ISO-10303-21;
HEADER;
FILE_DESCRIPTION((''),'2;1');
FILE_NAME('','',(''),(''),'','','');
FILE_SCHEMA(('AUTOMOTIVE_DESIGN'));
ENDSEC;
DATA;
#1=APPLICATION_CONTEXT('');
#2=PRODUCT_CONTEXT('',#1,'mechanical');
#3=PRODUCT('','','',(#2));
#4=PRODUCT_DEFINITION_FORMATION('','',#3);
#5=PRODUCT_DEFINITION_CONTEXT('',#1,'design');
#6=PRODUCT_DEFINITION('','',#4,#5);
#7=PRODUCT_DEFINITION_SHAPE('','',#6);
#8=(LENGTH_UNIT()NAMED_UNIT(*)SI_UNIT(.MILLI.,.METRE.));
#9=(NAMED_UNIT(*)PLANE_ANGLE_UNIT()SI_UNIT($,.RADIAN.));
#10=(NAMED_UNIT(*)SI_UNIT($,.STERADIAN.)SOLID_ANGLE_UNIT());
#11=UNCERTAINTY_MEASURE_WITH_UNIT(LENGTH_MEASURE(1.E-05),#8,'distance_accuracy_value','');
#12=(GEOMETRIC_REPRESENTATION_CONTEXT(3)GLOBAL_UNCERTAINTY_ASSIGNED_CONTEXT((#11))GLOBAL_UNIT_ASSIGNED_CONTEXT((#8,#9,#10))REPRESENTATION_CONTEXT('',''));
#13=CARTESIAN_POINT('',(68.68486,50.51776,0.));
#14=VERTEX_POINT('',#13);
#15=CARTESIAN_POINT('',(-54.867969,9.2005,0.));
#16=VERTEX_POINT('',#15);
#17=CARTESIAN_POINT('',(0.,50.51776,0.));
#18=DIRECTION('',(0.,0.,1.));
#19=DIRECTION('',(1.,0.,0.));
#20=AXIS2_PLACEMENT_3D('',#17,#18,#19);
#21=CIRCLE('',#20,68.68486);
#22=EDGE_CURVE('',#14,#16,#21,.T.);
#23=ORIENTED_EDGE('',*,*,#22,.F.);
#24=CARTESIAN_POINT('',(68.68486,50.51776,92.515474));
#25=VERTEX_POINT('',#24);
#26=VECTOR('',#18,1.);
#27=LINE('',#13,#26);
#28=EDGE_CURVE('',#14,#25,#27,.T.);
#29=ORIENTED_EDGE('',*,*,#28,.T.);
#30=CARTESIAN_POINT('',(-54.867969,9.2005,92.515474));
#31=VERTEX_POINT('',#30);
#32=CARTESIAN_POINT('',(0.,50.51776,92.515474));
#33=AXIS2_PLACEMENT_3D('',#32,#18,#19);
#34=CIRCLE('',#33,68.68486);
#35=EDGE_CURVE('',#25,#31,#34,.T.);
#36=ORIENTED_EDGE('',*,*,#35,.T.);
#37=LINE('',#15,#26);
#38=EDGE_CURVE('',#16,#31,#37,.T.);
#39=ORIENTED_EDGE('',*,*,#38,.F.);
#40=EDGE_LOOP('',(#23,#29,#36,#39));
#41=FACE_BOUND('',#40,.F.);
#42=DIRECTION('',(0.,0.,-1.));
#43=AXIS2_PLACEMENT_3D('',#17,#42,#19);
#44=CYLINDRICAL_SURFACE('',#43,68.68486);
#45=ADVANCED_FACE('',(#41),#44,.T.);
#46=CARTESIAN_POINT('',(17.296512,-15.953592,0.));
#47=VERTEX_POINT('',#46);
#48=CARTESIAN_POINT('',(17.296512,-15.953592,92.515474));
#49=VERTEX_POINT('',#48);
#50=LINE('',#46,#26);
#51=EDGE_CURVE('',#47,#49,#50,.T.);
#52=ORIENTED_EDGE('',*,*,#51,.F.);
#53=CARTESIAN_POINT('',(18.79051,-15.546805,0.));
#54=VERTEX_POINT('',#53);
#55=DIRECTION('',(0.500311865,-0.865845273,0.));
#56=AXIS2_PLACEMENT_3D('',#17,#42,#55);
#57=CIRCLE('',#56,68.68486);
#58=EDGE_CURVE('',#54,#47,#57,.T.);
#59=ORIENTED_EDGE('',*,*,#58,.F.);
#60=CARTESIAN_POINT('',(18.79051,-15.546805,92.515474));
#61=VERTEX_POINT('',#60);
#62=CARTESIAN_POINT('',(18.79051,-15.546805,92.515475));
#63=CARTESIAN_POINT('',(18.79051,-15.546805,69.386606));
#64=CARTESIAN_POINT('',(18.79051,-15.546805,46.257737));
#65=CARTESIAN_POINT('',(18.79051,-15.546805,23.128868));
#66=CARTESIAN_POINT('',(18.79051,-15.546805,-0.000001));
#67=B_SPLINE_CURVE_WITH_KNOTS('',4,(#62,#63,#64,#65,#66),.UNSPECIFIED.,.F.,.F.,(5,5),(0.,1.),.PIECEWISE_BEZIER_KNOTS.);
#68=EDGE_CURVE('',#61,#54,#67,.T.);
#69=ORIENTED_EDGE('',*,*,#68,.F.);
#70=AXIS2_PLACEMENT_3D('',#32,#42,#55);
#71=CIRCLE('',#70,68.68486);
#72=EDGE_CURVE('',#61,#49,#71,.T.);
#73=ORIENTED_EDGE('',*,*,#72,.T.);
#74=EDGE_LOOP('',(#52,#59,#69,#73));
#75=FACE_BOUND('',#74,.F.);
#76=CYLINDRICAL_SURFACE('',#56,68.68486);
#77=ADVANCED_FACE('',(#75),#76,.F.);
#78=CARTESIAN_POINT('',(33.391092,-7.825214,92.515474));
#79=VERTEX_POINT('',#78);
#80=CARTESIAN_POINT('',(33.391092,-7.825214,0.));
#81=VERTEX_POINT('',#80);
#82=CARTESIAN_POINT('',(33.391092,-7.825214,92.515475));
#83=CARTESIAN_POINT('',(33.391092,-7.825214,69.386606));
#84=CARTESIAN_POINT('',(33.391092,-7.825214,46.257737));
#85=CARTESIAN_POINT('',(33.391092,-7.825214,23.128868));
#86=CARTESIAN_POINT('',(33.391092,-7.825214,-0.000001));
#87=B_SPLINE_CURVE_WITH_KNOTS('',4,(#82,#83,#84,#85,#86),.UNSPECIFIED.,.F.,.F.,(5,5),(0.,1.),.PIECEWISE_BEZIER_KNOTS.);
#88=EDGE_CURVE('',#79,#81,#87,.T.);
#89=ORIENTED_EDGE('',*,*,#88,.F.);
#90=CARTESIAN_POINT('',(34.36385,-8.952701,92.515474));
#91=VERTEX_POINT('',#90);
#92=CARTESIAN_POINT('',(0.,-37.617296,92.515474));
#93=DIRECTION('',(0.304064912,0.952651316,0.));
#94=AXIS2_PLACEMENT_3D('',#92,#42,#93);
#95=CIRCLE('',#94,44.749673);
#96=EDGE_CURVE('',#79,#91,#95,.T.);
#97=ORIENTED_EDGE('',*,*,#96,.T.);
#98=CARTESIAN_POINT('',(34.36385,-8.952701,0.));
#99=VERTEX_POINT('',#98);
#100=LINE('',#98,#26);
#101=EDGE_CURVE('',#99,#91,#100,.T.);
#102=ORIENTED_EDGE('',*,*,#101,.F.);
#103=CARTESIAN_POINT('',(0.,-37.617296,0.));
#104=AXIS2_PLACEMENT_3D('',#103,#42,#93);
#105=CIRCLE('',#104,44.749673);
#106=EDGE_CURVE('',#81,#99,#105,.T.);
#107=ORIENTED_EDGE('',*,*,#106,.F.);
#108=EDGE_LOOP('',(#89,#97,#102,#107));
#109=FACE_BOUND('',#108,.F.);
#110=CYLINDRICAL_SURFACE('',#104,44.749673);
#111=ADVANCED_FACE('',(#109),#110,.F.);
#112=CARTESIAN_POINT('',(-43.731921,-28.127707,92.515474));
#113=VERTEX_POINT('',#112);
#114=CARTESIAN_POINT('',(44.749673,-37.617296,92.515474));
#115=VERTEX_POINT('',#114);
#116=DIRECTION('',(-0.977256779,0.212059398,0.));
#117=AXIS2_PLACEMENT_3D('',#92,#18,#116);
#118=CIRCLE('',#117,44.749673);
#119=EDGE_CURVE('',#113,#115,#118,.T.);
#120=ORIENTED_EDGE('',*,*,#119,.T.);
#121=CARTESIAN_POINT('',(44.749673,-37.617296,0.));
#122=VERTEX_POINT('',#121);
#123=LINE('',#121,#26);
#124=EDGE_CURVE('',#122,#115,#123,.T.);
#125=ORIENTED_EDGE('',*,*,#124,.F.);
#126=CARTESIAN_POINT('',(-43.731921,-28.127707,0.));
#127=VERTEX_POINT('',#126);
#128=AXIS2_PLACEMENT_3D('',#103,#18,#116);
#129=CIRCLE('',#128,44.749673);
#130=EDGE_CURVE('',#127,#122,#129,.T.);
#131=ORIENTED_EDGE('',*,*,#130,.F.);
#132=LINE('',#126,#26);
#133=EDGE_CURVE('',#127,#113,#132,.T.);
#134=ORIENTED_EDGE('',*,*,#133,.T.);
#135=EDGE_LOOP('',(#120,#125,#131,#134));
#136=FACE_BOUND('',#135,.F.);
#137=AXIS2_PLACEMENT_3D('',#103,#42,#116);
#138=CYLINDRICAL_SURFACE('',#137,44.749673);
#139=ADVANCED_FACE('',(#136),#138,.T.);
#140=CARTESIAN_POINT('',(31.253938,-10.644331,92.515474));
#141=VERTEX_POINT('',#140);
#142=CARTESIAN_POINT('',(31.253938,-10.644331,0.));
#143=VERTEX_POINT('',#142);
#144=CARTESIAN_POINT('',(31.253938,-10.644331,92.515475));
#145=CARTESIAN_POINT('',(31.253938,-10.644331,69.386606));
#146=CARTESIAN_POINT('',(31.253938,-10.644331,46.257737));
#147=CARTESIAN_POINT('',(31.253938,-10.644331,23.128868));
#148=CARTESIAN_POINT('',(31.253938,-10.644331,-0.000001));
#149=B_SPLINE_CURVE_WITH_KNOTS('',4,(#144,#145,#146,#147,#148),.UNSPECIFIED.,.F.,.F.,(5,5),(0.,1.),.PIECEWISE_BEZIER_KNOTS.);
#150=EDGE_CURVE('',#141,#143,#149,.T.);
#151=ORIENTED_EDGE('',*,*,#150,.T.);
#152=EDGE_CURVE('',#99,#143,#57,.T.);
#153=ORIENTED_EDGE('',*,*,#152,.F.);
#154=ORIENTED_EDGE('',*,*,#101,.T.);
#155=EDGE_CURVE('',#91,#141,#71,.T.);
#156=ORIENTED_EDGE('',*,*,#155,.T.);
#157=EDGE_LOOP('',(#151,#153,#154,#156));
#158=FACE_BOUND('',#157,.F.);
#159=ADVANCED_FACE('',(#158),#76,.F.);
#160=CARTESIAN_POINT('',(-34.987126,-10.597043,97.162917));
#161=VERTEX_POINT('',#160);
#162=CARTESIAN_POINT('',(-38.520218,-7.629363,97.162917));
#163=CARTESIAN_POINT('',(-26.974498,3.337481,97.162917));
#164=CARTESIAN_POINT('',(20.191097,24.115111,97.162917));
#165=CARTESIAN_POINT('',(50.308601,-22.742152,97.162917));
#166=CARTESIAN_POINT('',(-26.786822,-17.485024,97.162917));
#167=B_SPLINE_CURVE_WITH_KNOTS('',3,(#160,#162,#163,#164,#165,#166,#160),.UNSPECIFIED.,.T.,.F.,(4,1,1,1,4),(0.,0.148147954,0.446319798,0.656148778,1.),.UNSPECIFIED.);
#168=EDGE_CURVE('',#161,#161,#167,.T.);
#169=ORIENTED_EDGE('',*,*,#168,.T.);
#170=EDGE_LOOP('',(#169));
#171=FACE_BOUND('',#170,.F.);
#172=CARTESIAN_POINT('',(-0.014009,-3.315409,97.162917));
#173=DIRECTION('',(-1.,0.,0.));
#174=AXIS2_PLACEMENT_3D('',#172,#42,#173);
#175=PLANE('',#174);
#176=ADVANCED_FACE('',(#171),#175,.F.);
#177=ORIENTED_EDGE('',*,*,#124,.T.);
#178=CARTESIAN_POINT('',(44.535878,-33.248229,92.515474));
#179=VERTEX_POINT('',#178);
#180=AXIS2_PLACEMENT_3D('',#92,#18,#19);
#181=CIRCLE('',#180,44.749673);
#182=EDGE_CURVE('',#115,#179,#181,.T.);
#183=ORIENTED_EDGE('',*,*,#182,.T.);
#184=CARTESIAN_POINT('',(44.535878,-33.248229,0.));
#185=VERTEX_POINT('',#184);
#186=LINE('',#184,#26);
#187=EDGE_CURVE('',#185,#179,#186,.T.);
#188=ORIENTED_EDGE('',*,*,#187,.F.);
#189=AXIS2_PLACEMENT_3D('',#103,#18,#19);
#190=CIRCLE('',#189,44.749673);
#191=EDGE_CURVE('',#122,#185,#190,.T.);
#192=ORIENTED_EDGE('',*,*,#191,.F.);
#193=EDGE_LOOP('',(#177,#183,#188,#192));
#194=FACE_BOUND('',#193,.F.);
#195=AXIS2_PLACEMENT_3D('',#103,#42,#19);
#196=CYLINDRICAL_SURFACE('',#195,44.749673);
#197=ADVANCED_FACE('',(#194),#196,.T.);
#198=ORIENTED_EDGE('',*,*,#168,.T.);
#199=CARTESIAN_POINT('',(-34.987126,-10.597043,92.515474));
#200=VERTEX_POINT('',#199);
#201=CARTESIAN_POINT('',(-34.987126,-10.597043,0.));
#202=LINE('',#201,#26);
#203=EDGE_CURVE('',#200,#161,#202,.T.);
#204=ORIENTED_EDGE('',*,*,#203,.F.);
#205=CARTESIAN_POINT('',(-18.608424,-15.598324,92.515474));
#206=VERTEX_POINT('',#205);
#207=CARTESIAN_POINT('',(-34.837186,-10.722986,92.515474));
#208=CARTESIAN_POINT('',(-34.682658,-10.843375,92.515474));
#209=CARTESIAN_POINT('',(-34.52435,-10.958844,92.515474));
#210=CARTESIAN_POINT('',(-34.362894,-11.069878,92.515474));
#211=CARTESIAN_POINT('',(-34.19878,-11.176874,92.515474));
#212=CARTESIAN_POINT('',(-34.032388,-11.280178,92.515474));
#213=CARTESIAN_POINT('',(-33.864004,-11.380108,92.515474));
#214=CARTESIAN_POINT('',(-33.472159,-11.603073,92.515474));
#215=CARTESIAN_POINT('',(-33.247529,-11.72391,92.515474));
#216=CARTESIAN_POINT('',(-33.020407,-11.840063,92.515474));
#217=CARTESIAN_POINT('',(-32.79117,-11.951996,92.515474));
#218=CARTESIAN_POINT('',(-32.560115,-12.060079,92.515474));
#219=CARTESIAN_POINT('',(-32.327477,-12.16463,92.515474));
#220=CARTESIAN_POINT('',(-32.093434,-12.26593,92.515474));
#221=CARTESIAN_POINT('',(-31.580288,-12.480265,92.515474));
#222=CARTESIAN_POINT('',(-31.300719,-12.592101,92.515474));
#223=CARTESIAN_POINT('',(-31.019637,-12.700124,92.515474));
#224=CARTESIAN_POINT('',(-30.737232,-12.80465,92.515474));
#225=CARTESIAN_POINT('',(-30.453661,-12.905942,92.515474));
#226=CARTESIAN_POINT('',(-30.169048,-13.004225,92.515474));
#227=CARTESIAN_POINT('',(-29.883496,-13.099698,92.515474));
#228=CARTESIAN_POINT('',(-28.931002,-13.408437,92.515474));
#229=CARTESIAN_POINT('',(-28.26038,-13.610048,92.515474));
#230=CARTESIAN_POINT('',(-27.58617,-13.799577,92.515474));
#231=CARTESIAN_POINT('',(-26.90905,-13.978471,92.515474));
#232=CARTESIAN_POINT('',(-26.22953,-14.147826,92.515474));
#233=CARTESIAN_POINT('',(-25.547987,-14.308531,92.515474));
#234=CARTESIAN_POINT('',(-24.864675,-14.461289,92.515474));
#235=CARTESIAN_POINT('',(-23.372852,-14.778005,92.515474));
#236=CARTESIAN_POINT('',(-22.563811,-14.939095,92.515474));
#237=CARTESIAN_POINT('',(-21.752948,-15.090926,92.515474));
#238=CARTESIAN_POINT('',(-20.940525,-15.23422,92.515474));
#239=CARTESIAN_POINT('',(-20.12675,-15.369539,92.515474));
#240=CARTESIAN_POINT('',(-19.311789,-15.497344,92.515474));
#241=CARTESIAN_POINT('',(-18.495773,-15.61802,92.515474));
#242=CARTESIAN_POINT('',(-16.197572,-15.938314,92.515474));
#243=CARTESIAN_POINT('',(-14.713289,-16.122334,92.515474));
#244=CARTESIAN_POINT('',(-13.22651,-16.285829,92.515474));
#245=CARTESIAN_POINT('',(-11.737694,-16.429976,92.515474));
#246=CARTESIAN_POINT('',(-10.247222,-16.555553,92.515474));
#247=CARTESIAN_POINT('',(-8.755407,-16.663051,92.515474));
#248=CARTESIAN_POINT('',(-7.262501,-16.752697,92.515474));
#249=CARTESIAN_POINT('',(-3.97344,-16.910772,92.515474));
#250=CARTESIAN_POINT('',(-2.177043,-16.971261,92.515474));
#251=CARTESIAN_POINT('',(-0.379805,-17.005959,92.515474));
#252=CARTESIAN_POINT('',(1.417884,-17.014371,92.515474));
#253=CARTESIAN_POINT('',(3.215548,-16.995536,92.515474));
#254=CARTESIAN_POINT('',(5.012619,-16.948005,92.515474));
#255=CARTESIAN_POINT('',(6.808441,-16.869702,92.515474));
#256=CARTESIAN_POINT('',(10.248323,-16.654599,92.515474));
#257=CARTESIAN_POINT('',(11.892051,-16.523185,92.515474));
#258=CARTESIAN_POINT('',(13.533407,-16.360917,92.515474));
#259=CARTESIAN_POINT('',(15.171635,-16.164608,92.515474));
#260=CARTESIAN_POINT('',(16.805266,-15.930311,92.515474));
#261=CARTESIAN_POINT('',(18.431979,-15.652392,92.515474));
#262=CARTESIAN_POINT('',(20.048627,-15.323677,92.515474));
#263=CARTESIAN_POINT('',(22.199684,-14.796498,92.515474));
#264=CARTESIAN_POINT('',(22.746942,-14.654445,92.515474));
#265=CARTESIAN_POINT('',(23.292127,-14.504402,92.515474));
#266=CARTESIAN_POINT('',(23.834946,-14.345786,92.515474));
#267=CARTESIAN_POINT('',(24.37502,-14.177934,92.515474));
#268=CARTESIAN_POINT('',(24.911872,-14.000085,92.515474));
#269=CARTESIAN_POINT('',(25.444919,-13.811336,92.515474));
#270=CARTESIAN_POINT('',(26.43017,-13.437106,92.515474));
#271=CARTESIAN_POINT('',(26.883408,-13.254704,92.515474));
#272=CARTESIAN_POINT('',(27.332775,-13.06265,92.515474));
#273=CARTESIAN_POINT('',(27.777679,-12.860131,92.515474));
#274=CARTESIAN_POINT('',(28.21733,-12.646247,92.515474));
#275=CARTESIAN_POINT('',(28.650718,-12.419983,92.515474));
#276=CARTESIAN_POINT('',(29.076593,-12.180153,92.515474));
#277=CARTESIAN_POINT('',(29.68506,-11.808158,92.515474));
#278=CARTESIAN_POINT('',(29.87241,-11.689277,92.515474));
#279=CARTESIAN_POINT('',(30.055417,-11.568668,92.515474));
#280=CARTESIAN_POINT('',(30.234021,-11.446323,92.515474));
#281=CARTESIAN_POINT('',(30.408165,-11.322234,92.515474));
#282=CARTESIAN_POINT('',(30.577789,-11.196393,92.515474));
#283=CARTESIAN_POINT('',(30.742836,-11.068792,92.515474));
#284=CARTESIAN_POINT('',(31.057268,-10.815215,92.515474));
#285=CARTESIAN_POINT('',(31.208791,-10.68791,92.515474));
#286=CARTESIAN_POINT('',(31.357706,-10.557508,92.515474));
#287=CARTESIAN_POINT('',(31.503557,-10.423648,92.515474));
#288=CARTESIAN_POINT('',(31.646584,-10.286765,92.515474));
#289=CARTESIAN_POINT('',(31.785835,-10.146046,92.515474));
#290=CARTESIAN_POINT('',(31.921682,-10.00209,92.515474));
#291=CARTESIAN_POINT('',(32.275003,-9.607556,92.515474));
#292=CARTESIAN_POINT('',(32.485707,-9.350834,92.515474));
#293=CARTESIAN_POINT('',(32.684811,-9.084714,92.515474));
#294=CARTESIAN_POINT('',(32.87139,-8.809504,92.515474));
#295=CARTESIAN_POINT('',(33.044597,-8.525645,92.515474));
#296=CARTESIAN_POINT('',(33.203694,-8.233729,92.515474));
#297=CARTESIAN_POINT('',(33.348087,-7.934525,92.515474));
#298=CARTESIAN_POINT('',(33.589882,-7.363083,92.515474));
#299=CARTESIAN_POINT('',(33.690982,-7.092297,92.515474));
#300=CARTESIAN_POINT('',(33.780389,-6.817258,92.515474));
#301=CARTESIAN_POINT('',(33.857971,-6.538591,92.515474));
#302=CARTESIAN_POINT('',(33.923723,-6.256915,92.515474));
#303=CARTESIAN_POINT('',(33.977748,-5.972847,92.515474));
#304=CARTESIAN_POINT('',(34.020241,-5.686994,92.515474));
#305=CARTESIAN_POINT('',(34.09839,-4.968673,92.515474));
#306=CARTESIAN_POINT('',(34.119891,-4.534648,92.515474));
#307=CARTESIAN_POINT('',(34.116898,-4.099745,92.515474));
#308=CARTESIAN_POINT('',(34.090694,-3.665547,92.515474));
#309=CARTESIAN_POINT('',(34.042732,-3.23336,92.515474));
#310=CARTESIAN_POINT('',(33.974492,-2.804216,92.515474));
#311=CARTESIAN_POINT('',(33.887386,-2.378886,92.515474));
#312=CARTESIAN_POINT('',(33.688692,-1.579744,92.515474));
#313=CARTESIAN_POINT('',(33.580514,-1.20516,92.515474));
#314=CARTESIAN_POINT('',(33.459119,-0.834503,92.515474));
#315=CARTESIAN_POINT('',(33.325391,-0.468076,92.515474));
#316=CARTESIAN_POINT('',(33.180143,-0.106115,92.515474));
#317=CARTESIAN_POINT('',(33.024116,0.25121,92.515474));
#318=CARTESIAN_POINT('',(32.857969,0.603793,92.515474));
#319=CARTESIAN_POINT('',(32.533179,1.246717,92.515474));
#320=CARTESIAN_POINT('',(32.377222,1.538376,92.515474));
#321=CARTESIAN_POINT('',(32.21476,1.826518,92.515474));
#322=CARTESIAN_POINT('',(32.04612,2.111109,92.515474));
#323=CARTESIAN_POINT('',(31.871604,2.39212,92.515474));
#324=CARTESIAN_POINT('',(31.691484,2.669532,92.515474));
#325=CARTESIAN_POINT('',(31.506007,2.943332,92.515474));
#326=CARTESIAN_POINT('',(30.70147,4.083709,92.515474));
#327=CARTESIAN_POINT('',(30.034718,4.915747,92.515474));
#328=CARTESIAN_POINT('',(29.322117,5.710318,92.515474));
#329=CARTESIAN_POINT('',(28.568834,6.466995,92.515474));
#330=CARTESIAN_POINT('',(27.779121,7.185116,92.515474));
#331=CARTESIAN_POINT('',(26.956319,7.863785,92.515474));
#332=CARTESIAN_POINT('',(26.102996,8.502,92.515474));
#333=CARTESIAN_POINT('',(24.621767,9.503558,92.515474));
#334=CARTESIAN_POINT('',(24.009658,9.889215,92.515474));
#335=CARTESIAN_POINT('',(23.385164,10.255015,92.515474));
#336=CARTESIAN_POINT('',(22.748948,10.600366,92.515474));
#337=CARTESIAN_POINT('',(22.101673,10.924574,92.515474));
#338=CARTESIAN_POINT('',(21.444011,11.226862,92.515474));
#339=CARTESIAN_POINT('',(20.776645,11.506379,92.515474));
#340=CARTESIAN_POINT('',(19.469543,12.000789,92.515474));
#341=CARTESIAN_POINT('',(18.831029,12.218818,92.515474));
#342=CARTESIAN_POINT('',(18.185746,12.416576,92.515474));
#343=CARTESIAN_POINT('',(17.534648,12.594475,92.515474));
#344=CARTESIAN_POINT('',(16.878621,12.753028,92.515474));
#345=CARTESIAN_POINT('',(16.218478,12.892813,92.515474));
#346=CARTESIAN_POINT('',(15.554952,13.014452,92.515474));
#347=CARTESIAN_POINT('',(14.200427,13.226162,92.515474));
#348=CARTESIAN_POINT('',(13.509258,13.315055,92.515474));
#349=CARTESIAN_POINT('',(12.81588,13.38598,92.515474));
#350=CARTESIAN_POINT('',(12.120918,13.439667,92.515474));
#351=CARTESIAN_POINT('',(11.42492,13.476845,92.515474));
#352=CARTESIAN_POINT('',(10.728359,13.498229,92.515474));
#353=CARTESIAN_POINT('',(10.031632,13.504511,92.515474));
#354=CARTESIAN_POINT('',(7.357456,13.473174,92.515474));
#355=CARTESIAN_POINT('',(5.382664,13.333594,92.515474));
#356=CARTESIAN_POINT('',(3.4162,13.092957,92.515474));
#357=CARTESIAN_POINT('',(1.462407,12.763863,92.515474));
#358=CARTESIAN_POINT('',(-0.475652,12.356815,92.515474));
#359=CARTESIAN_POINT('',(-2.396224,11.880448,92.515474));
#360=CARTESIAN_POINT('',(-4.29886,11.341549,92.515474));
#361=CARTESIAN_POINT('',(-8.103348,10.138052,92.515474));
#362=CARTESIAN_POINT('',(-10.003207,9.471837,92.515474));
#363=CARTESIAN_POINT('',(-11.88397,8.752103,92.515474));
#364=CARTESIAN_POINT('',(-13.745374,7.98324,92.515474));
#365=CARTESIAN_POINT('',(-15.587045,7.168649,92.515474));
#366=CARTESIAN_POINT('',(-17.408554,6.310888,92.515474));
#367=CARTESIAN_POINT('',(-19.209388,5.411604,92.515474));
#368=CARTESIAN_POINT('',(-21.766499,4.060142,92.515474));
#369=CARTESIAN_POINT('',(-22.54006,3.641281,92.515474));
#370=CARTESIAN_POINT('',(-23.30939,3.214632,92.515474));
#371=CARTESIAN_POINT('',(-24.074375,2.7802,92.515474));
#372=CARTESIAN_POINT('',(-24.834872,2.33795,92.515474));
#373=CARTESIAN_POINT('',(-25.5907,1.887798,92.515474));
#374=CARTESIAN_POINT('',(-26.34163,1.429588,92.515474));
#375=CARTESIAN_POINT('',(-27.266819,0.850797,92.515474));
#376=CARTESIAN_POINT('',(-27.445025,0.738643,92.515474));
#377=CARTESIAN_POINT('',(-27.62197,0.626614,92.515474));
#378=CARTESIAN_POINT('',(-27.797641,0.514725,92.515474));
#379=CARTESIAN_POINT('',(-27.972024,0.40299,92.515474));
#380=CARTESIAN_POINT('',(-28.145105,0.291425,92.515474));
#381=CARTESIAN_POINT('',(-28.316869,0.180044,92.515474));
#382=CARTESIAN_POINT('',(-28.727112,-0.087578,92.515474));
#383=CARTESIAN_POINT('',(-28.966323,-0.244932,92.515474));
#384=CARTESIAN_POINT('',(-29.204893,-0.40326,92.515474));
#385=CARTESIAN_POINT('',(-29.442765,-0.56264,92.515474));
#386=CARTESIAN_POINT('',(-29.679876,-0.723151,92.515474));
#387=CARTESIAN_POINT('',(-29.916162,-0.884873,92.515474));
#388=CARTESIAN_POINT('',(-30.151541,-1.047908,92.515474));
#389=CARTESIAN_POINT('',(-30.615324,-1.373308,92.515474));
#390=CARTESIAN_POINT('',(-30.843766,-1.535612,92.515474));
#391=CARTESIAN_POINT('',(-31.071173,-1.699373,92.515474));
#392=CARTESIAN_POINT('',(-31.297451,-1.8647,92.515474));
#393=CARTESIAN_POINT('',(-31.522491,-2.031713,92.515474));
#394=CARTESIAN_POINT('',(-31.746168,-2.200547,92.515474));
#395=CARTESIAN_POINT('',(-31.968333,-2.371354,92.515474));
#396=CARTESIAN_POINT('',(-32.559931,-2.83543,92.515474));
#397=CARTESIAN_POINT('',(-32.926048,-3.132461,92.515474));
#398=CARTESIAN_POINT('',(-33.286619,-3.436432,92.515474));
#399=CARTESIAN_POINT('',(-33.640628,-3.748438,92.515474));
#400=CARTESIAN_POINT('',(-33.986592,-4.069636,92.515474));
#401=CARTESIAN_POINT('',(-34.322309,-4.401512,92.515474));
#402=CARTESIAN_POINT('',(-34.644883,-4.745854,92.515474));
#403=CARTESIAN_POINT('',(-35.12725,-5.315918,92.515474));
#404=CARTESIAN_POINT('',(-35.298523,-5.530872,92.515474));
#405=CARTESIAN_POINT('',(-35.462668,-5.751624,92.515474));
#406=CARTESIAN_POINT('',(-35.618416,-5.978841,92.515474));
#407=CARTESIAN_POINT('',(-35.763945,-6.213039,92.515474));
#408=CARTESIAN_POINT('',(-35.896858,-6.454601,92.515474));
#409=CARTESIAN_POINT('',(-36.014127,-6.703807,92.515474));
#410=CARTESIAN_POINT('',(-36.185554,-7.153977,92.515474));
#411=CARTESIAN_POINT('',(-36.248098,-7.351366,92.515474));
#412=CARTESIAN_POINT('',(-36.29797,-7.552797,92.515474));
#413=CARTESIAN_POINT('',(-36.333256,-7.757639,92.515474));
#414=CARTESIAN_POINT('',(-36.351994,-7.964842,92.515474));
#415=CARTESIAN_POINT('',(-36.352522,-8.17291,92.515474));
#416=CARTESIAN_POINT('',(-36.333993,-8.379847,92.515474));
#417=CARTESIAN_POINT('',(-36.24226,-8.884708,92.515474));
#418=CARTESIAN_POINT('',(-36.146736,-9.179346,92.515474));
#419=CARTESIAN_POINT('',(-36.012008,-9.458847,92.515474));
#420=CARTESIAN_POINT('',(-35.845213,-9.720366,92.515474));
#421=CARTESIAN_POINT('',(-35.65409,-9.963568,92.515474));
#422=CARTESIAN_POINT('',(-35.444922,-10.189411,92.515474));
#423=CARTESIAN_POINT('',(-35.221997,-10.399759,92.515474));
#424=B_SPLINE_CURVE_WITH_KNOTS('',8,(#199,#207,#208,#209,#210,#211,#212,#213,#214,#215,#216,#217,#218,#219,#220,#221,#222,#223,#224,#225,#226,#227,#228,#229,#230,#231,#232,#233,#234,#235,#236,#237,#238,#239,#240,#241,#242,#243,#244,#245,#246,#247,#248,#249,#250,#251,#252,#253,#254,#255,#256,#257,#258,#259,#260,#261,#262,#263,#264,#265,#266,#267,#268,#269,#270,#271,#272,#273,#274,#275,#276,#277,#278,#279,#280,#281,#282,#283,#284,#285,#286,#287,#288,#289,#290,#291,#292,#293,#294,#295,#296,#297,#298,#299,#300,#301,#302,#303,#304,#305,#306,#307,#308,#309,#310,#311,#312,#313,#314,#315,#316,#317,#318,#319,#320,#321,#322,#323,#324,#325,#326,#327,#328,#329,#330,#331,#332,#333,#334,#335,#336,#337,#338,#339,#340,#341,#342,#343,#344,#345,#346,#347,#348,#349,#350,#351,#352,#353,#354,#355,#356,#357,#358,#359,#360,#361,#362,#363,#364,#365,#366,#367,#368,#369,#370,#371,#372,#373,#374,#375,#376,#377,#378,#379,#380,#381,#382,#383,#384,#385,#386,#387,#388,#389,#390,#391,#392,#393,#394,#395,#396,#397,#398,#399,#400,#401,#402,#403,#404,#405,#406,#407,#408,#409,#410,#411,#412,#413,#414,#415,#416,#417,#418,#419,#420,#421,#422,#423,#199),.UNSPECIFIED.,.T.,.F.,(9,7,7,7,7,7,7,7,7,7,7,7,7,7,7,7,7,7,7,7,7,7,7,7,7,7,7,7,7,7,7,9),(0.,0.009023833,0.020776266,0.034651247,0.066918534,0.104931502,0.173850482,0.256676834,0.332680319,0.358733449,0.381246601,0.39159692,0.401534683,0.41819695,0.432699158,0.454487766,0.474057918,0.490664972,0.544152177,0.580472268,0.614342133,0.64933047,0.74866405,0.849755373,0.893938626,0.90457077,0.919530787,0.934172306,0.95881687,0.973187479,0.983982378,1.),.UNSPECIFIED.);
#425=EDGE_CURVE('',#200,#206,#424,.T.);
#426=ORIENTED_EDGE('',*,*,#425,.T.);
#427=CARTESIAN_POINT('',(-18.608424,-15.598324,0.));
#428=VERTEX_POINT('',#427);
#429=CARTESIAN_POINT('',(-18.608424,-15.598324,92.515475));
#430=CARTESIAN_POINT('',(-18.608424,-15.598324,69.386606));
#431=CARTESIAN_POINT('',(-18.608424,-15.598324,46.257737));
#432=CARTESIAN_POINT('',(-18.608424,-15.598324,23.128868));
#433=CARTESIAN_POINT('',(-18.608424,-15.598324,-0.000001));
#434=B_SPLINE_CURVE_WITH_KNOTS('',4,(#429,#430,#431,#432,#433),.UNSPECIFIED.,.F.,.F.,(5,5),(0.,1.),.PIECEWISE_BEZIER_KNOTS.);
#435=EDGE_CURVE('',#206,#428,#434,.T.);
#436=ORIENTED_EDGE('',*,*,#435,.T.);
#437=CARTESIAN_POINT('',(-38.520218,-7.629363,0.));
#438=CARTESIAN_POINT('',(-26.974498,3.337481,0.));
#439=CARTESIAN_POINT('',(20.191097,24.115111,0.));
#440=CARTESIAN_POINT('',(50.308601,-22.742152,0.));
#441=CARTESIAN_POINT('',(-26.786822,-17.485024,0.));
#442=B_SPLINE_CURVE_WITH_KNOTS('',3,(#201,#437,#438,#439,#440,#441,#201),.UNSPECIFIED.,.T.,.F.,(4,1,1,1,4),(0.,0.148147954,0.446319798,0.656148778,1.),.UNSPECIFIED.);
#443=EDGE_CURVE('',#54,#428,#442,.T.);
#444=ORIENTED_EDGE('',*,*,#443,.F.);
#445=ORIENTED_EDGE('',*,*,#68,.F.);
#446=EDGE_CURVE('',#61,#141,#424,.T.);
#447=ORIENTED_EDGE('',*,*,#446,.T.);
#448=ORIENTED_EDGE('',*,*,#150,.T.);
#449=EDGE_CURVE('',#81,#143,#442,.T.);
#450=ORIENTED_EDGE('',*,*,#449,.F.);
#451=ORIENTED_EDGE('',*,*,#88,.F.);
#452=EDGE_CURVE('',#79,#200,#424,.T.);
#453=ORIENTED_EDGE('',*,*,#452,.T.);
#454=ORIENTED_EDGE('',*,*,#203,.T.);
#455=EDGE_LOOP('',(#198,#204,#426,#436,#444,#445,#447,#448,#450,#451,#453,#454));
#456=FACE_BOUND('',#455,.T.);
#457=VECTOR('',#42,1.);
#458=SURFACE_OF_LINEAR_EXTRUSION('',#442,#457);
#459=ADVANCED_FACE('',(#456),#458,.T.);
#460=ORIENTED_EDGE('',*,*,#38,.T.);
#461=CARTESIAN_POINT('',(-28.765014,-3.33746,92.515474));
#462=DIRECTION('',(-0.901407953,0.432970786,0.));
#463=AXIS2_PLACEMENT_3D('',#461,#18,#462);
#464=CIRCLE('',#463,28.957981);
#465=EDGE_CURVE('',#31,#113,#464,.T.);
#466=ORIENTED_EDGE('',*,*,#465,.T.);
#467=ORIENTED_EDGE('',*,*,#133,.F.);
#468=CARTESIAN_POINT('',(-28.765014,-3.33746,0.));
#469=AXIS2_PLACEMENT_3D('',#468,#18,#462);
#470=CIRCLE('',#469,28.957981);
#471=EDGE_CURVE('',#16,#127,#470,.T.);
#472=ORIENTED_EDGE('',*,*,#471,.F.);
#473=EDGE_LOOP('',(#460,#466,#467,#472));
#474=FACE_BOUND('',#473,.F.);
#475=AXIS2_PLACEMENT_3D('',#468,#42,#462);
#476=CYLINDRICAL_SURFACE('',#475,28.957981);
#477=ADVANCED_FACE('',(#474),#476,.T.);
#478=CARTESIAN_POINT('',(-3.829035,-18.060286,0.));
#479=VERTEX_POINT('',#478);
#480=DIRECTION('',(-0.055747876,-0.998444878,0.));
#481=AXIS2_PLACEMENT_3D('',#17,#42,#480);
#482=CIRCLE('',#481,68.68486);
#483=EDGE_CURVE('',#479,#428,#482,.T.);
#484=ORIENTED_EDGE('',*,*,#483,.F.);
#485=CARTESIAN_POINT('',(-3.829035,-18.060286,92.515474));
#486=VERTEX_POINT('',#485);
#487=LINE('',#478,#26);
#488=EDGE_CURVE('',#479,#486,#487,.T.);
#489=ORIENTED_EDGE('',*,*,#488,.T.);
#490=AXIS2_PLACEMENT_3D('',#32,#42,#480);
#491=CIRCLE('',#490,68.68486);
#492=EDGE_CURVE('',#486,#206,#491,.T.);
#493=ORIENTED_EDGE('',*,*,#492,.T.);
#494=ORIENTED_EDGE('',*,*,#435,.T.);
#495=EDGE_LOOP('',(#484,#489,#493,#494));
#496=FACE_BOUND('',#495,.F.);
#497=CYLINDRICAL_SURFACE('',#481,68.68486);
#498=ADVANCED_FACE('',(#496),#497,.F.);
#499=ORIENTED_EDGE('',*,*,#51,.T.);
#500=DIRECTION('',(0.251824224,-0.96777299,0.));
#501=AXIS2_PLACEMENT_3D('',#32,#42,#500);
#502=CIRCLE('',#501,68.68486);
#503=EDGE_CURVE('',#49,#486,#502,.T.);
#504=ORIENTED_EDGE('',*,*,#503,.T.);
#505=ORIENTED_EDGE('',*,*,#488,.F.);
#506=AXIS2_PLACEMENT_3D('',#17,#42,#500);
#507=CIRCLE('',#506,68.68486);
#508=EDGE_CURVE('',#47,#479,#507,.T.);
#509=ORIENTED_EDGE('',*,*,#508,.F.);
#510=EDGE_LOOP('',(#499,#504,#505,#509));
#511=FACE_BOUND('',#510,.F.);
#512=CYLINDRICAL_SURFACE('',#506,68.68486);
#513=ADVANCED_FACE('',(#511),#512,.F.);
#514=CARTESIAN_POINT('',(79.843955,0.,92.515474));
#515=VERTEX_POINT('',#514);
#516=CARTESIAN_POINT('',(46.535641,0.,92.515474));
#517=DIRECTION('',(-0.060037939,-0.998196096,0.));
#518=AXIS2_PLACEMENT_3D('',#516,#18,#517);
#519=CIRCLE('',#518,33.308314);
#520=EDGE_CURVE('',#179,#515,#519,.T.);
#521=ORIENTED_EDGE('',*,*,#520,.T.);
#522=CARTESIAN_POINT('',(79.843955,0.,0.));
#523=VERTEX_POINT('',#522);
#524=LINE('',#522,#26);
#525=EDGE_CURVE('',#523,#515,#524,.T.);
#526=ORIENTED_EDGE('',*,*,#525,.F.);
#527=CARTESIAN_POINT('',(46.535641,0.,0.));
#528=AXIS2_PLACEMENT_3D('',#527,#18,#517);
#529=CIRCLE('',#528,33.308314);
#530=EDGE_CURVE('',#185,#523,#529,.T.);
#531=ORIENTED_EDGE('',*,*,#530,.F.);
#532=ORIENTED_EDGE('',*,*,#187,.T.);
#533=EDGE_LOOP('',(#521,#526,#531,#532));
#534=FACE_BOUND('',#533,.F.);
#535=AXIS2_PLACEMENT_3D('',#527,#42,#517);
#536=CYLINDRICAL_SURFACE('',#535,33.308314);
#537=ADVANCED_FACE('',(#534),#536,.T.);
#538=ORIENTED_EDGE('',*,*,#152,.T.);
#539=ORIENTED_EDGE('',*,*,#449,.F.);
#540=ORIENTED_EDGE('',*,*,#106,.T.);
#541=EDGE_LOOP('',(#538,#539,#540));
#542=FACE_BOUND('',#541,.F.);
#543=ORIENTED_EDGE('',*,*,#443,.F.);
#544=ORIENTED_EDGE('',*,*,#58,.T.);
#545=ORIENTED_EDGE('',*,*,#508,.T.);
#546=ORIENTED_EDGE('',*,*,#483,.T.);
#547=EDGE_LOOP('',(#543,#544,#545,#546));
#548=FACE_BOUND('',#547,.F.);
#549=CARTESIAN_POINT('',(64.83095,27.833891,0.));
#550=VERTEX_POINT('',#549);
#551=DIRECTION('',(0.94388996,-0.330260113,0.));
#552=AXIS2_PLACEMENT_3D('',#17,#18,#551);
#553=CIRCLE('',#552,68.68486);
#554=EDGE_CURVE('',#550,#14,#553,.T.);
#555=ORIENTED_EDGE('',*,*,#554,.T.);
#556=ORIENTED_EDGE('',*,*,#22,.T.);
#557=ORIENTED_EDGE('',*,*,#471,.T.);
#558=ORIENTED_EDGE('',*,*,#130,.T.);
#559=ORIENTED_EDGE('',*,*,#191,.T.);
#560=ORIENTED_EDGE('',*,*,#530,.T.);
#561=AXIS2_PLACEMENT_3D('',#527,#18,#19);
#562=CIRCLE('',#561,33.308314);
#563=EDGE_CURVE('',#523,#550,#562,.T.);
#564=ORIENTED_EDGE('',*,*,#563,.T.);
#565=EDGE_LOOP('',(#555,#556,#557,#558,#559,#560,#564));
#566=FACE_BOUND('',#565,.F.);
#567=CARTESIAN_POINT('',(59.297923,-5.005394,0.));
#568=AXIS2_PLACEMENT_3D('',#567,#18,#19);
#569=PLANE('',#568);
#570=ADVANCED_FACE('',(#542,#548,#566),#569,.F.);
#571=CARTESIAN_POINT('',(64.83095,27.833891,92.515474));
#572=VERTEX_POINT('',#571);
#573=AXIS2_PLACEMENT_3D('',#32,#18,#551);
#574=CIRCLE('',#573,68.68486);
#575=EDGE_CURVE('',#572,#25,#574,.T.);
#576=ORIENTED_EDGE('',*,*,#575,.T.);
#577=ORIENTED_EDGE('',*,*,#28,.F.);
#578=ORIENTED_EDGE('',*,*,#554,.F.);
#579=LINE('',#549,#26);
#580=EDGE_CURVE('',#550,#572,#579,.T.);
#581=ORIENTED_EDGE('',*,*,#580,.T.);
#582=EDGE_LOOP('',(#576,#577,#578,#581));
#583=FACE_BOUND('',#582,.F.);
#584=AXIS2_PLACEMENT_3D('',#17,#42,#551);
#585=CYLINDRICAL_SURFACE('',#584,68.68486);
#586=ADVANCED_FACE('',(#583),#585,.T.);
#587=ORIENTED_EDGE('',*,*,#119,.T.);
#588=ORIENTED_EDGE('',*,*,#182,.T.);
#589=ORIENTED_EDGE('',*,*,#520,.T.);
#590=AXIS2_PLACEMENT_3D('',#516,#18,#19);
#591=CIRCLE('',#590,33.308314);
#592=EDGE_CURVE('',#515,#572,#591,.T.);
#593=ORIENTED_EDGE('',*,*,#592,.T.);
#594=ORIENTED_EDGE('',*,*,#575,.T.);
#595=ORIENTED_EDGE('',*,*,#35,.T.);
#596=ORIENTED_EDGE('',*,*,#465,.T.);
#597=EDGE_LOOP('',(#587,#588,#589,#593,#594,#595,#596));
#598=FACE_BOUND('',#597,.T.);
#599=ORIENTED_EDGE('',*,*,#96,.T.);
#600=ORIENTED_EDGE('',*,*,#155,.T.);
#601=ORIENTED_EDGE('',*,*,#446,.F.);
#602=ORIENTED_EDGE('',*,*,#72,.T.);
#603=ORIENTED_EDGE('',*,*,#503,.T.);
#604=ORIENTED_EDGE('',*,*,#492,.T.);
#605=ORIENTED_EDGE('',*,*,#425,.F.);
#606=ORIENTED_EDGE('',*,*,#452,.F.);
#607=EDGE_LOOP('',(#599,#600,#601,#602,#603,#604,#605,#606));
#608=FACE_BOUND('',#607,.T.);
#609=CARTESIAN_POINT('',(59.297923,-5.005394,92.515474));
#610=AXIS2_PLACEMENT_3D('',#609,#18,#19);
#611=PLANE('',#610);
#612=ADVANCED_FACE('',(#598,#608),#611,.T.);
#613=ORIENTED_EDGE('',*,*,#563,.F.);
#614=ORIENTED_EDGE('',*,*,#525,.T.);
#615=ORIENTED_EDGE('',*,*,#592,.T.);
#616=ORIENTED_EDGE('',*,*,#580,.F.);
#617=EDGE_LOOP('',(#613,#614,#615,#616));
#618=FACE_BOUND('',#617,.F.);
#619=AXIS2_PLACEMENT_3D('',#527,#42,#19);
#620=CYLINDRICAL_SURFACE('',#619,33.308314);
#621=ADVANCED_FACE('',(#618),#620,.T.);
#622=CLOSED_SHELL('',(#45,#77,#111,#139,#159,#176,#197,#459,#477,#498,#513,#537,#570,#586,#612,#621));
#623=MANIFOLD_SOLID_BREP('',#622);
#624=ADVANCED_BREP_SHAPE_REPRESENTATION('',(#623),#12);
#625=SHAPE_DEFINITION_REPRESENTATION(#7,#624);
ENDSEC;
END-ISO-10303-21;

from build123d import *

# Parameters (mm, degrees)
F2_DEPTH = 92.5154741853
F0_DEPTH = 97.1629172564


with BuildPart() as f2:
    # F1 (on Top) → F2 (new body)
    with BuildSketch(Plane.XY):
        with BuildLine():
            ThreePointArc((44.535878433, -33.2482290868), (69.3702098075, -24.249252625), (79.8439550455, 0))
            ThreePointArc((79.8439550455, 0), (75.8514189323, 15.8123037264), (64.8309496766, 27.8338906072))
            ThreePointArc((64.8309496766, 27.8338906072), (52.8981608399, 6.706864812), (34.3638503598, -8.9527010632))
            ThreePointArc((34.3638503598, -8.9527010632), (41.2778387441, -20.3351305507), (44.535878433, -33.2482290868))
        make_face()
        with BuildLine():
            ThreePointArc((34.3638503598, -8.9527010632), (52.8981608399, 6.706864812), (64.8309496766, 27.8338906072))
            ThreePointArc((64.8309496766, 27.8338906072), (32.9810423523, 30.4255919297), (13.6068053003, 5.0135386682))
            ThreePointArc((13.6068053003, 5.0135386682), (24.9811912081, -0.4894991276), (34.3638503598, -8.9527010632))
        make_face()
        with BuildLine():
            ThreePointArc((13.6068053003, 5.0135386682), (32.9810423523, 30.4255919297), (64.8309496766, 27.8338906072))
            ThreePointArc((64.8309496766, 27.8338906072), (67.7145282445, 39.013298427), (68.6848598779, 50.5177602172))
            ThreePointArc((68.6848598779, 50.5177602172), (-21.7831497836, 115.6568756699), (-54.8679687803, 9.2005001631))
            ThreePointArc((-54.8679687803, 9.2005001631), (-27.6196679815, 25.597862276), (-1.7527016438, 7.0980397588))
            ThreePointArc((-1.7527016438, 7.0980397588), (6.0179921547, 6.7258769298), (13.6068053003, 5.0135386682))
        make_face()
        with BuildLine():
            ThreePointArc((44.7496727734, -37.6172959805), (44.6961922309, -35.4301486637), (44.535878433, -33.2482290868))
            ThreePointArc((44.535878433, -33.2482290868), (28.6822600259, -28.119398588), (17.2965115244, -15.9535919997))
            ThreePointArc((17.2965115244, -15.9535919997), (6.8156269651, -17.8281043653), (-3.8290350442, -18.0602863216))
            ThreePointArc((-3.8290350442, -18.0602863216), (-21.6809587163, -31.4155799712), (-43.73192107, -28.1277073248))
            ThreePointArc((-43.73192107, -28.1277073248), (-4.7720045941, -82.1118033435), (44.7496727734, -37.6172959805))
        make_face()
        with BuildLine():
            ThreePointArc((17.2965115244, -15.9535919997), (28.6822600259, -28.119398588), (44.535878433, -33.2482290868))
            ThreePointArc((44.535878433, -33.2482290868), (41.2778387441, -20.3351305507), (34.3638503598, -8.9527010632))
            ThreePointArc((34.3638503598, -8.9527010632), (26.0662879209, -13.0287472437), (17.2965115244, -15.9535919997))
        make_face()
        with BuildLine():
            ThreePointArc((-34.3638503598, -8.9527010632), (-19.7612727928, 2.5327390249), (-1.7527016438, 7.0980397588))
            ThreePointArc((-1.7527016438, 7.0980397588), (-27.6196679815, 25.597862276), (-54.8679687803, 9.2005001631))
            ThreePointArc((-54.8679687803, 9.2005001631), (-45.5298151265, -0.9083606845), (-34.3638503598, -8.9527010632))
        make_face()
        with BuildLine():
            ThreePointArc((-34.3638503598, -8.9527010632), (-45.5298151265, -0.9083606845), (-54.8679687803, 9.2005001631))
            ThreePointArc((-54.8679687803, 9.2005001631), (-56.5144673123, -11.6158972728), (-43.73192107, -28.1277073248))
            ThreePointArc((-43.73192107, -28.1277073248), (-40.2076807972, -17.9735789636), (-34.3638503598, -8.9527010632))
        make_face()
        with BuildLine():
            ThreePointArc((-43.73192107, -28.1277073248), (-21.6809587163, -31.4155799712), (-3.8290350442, -18.0602863216))
            ThreePointArc((-3.8290350442, -18.0602863216), (-19.6318911769, -15.3016808718), (-34.3638503598, -8.9527010632))
            ThreePointArc((-34.3638503598, -8.9527010632), (-40.2076807972, -17.9735789636), (-43.73192107, -28.1277073248))
        make_face()
    extrude(amount=F2_DEPTH)

    # F3 (on Top) → F0 (join)
    with BuildSketch(Plane.XY):
        with BuildLine():
            add(Edge.make_bspline(
                [(-34.9871255457, -10.5970427394), (-38.5202182083, -7.629362708), (-26.9744975771, 3.3374806038), (20.1910972985, 24.1151109584), (50.3086010226, -22.7421521605), (-26.7868217781, -17.4850244785), (-34.9871255457, -10.5970427394)],
                knots=[0, 0, 0, 0, 0.1481479543, 0.4463197978, 0.6561487784, 1, 1, 1, 1], degree=3))
        make_face()
    extrude(amount=F0_DEPTH)


solid = f2.part
